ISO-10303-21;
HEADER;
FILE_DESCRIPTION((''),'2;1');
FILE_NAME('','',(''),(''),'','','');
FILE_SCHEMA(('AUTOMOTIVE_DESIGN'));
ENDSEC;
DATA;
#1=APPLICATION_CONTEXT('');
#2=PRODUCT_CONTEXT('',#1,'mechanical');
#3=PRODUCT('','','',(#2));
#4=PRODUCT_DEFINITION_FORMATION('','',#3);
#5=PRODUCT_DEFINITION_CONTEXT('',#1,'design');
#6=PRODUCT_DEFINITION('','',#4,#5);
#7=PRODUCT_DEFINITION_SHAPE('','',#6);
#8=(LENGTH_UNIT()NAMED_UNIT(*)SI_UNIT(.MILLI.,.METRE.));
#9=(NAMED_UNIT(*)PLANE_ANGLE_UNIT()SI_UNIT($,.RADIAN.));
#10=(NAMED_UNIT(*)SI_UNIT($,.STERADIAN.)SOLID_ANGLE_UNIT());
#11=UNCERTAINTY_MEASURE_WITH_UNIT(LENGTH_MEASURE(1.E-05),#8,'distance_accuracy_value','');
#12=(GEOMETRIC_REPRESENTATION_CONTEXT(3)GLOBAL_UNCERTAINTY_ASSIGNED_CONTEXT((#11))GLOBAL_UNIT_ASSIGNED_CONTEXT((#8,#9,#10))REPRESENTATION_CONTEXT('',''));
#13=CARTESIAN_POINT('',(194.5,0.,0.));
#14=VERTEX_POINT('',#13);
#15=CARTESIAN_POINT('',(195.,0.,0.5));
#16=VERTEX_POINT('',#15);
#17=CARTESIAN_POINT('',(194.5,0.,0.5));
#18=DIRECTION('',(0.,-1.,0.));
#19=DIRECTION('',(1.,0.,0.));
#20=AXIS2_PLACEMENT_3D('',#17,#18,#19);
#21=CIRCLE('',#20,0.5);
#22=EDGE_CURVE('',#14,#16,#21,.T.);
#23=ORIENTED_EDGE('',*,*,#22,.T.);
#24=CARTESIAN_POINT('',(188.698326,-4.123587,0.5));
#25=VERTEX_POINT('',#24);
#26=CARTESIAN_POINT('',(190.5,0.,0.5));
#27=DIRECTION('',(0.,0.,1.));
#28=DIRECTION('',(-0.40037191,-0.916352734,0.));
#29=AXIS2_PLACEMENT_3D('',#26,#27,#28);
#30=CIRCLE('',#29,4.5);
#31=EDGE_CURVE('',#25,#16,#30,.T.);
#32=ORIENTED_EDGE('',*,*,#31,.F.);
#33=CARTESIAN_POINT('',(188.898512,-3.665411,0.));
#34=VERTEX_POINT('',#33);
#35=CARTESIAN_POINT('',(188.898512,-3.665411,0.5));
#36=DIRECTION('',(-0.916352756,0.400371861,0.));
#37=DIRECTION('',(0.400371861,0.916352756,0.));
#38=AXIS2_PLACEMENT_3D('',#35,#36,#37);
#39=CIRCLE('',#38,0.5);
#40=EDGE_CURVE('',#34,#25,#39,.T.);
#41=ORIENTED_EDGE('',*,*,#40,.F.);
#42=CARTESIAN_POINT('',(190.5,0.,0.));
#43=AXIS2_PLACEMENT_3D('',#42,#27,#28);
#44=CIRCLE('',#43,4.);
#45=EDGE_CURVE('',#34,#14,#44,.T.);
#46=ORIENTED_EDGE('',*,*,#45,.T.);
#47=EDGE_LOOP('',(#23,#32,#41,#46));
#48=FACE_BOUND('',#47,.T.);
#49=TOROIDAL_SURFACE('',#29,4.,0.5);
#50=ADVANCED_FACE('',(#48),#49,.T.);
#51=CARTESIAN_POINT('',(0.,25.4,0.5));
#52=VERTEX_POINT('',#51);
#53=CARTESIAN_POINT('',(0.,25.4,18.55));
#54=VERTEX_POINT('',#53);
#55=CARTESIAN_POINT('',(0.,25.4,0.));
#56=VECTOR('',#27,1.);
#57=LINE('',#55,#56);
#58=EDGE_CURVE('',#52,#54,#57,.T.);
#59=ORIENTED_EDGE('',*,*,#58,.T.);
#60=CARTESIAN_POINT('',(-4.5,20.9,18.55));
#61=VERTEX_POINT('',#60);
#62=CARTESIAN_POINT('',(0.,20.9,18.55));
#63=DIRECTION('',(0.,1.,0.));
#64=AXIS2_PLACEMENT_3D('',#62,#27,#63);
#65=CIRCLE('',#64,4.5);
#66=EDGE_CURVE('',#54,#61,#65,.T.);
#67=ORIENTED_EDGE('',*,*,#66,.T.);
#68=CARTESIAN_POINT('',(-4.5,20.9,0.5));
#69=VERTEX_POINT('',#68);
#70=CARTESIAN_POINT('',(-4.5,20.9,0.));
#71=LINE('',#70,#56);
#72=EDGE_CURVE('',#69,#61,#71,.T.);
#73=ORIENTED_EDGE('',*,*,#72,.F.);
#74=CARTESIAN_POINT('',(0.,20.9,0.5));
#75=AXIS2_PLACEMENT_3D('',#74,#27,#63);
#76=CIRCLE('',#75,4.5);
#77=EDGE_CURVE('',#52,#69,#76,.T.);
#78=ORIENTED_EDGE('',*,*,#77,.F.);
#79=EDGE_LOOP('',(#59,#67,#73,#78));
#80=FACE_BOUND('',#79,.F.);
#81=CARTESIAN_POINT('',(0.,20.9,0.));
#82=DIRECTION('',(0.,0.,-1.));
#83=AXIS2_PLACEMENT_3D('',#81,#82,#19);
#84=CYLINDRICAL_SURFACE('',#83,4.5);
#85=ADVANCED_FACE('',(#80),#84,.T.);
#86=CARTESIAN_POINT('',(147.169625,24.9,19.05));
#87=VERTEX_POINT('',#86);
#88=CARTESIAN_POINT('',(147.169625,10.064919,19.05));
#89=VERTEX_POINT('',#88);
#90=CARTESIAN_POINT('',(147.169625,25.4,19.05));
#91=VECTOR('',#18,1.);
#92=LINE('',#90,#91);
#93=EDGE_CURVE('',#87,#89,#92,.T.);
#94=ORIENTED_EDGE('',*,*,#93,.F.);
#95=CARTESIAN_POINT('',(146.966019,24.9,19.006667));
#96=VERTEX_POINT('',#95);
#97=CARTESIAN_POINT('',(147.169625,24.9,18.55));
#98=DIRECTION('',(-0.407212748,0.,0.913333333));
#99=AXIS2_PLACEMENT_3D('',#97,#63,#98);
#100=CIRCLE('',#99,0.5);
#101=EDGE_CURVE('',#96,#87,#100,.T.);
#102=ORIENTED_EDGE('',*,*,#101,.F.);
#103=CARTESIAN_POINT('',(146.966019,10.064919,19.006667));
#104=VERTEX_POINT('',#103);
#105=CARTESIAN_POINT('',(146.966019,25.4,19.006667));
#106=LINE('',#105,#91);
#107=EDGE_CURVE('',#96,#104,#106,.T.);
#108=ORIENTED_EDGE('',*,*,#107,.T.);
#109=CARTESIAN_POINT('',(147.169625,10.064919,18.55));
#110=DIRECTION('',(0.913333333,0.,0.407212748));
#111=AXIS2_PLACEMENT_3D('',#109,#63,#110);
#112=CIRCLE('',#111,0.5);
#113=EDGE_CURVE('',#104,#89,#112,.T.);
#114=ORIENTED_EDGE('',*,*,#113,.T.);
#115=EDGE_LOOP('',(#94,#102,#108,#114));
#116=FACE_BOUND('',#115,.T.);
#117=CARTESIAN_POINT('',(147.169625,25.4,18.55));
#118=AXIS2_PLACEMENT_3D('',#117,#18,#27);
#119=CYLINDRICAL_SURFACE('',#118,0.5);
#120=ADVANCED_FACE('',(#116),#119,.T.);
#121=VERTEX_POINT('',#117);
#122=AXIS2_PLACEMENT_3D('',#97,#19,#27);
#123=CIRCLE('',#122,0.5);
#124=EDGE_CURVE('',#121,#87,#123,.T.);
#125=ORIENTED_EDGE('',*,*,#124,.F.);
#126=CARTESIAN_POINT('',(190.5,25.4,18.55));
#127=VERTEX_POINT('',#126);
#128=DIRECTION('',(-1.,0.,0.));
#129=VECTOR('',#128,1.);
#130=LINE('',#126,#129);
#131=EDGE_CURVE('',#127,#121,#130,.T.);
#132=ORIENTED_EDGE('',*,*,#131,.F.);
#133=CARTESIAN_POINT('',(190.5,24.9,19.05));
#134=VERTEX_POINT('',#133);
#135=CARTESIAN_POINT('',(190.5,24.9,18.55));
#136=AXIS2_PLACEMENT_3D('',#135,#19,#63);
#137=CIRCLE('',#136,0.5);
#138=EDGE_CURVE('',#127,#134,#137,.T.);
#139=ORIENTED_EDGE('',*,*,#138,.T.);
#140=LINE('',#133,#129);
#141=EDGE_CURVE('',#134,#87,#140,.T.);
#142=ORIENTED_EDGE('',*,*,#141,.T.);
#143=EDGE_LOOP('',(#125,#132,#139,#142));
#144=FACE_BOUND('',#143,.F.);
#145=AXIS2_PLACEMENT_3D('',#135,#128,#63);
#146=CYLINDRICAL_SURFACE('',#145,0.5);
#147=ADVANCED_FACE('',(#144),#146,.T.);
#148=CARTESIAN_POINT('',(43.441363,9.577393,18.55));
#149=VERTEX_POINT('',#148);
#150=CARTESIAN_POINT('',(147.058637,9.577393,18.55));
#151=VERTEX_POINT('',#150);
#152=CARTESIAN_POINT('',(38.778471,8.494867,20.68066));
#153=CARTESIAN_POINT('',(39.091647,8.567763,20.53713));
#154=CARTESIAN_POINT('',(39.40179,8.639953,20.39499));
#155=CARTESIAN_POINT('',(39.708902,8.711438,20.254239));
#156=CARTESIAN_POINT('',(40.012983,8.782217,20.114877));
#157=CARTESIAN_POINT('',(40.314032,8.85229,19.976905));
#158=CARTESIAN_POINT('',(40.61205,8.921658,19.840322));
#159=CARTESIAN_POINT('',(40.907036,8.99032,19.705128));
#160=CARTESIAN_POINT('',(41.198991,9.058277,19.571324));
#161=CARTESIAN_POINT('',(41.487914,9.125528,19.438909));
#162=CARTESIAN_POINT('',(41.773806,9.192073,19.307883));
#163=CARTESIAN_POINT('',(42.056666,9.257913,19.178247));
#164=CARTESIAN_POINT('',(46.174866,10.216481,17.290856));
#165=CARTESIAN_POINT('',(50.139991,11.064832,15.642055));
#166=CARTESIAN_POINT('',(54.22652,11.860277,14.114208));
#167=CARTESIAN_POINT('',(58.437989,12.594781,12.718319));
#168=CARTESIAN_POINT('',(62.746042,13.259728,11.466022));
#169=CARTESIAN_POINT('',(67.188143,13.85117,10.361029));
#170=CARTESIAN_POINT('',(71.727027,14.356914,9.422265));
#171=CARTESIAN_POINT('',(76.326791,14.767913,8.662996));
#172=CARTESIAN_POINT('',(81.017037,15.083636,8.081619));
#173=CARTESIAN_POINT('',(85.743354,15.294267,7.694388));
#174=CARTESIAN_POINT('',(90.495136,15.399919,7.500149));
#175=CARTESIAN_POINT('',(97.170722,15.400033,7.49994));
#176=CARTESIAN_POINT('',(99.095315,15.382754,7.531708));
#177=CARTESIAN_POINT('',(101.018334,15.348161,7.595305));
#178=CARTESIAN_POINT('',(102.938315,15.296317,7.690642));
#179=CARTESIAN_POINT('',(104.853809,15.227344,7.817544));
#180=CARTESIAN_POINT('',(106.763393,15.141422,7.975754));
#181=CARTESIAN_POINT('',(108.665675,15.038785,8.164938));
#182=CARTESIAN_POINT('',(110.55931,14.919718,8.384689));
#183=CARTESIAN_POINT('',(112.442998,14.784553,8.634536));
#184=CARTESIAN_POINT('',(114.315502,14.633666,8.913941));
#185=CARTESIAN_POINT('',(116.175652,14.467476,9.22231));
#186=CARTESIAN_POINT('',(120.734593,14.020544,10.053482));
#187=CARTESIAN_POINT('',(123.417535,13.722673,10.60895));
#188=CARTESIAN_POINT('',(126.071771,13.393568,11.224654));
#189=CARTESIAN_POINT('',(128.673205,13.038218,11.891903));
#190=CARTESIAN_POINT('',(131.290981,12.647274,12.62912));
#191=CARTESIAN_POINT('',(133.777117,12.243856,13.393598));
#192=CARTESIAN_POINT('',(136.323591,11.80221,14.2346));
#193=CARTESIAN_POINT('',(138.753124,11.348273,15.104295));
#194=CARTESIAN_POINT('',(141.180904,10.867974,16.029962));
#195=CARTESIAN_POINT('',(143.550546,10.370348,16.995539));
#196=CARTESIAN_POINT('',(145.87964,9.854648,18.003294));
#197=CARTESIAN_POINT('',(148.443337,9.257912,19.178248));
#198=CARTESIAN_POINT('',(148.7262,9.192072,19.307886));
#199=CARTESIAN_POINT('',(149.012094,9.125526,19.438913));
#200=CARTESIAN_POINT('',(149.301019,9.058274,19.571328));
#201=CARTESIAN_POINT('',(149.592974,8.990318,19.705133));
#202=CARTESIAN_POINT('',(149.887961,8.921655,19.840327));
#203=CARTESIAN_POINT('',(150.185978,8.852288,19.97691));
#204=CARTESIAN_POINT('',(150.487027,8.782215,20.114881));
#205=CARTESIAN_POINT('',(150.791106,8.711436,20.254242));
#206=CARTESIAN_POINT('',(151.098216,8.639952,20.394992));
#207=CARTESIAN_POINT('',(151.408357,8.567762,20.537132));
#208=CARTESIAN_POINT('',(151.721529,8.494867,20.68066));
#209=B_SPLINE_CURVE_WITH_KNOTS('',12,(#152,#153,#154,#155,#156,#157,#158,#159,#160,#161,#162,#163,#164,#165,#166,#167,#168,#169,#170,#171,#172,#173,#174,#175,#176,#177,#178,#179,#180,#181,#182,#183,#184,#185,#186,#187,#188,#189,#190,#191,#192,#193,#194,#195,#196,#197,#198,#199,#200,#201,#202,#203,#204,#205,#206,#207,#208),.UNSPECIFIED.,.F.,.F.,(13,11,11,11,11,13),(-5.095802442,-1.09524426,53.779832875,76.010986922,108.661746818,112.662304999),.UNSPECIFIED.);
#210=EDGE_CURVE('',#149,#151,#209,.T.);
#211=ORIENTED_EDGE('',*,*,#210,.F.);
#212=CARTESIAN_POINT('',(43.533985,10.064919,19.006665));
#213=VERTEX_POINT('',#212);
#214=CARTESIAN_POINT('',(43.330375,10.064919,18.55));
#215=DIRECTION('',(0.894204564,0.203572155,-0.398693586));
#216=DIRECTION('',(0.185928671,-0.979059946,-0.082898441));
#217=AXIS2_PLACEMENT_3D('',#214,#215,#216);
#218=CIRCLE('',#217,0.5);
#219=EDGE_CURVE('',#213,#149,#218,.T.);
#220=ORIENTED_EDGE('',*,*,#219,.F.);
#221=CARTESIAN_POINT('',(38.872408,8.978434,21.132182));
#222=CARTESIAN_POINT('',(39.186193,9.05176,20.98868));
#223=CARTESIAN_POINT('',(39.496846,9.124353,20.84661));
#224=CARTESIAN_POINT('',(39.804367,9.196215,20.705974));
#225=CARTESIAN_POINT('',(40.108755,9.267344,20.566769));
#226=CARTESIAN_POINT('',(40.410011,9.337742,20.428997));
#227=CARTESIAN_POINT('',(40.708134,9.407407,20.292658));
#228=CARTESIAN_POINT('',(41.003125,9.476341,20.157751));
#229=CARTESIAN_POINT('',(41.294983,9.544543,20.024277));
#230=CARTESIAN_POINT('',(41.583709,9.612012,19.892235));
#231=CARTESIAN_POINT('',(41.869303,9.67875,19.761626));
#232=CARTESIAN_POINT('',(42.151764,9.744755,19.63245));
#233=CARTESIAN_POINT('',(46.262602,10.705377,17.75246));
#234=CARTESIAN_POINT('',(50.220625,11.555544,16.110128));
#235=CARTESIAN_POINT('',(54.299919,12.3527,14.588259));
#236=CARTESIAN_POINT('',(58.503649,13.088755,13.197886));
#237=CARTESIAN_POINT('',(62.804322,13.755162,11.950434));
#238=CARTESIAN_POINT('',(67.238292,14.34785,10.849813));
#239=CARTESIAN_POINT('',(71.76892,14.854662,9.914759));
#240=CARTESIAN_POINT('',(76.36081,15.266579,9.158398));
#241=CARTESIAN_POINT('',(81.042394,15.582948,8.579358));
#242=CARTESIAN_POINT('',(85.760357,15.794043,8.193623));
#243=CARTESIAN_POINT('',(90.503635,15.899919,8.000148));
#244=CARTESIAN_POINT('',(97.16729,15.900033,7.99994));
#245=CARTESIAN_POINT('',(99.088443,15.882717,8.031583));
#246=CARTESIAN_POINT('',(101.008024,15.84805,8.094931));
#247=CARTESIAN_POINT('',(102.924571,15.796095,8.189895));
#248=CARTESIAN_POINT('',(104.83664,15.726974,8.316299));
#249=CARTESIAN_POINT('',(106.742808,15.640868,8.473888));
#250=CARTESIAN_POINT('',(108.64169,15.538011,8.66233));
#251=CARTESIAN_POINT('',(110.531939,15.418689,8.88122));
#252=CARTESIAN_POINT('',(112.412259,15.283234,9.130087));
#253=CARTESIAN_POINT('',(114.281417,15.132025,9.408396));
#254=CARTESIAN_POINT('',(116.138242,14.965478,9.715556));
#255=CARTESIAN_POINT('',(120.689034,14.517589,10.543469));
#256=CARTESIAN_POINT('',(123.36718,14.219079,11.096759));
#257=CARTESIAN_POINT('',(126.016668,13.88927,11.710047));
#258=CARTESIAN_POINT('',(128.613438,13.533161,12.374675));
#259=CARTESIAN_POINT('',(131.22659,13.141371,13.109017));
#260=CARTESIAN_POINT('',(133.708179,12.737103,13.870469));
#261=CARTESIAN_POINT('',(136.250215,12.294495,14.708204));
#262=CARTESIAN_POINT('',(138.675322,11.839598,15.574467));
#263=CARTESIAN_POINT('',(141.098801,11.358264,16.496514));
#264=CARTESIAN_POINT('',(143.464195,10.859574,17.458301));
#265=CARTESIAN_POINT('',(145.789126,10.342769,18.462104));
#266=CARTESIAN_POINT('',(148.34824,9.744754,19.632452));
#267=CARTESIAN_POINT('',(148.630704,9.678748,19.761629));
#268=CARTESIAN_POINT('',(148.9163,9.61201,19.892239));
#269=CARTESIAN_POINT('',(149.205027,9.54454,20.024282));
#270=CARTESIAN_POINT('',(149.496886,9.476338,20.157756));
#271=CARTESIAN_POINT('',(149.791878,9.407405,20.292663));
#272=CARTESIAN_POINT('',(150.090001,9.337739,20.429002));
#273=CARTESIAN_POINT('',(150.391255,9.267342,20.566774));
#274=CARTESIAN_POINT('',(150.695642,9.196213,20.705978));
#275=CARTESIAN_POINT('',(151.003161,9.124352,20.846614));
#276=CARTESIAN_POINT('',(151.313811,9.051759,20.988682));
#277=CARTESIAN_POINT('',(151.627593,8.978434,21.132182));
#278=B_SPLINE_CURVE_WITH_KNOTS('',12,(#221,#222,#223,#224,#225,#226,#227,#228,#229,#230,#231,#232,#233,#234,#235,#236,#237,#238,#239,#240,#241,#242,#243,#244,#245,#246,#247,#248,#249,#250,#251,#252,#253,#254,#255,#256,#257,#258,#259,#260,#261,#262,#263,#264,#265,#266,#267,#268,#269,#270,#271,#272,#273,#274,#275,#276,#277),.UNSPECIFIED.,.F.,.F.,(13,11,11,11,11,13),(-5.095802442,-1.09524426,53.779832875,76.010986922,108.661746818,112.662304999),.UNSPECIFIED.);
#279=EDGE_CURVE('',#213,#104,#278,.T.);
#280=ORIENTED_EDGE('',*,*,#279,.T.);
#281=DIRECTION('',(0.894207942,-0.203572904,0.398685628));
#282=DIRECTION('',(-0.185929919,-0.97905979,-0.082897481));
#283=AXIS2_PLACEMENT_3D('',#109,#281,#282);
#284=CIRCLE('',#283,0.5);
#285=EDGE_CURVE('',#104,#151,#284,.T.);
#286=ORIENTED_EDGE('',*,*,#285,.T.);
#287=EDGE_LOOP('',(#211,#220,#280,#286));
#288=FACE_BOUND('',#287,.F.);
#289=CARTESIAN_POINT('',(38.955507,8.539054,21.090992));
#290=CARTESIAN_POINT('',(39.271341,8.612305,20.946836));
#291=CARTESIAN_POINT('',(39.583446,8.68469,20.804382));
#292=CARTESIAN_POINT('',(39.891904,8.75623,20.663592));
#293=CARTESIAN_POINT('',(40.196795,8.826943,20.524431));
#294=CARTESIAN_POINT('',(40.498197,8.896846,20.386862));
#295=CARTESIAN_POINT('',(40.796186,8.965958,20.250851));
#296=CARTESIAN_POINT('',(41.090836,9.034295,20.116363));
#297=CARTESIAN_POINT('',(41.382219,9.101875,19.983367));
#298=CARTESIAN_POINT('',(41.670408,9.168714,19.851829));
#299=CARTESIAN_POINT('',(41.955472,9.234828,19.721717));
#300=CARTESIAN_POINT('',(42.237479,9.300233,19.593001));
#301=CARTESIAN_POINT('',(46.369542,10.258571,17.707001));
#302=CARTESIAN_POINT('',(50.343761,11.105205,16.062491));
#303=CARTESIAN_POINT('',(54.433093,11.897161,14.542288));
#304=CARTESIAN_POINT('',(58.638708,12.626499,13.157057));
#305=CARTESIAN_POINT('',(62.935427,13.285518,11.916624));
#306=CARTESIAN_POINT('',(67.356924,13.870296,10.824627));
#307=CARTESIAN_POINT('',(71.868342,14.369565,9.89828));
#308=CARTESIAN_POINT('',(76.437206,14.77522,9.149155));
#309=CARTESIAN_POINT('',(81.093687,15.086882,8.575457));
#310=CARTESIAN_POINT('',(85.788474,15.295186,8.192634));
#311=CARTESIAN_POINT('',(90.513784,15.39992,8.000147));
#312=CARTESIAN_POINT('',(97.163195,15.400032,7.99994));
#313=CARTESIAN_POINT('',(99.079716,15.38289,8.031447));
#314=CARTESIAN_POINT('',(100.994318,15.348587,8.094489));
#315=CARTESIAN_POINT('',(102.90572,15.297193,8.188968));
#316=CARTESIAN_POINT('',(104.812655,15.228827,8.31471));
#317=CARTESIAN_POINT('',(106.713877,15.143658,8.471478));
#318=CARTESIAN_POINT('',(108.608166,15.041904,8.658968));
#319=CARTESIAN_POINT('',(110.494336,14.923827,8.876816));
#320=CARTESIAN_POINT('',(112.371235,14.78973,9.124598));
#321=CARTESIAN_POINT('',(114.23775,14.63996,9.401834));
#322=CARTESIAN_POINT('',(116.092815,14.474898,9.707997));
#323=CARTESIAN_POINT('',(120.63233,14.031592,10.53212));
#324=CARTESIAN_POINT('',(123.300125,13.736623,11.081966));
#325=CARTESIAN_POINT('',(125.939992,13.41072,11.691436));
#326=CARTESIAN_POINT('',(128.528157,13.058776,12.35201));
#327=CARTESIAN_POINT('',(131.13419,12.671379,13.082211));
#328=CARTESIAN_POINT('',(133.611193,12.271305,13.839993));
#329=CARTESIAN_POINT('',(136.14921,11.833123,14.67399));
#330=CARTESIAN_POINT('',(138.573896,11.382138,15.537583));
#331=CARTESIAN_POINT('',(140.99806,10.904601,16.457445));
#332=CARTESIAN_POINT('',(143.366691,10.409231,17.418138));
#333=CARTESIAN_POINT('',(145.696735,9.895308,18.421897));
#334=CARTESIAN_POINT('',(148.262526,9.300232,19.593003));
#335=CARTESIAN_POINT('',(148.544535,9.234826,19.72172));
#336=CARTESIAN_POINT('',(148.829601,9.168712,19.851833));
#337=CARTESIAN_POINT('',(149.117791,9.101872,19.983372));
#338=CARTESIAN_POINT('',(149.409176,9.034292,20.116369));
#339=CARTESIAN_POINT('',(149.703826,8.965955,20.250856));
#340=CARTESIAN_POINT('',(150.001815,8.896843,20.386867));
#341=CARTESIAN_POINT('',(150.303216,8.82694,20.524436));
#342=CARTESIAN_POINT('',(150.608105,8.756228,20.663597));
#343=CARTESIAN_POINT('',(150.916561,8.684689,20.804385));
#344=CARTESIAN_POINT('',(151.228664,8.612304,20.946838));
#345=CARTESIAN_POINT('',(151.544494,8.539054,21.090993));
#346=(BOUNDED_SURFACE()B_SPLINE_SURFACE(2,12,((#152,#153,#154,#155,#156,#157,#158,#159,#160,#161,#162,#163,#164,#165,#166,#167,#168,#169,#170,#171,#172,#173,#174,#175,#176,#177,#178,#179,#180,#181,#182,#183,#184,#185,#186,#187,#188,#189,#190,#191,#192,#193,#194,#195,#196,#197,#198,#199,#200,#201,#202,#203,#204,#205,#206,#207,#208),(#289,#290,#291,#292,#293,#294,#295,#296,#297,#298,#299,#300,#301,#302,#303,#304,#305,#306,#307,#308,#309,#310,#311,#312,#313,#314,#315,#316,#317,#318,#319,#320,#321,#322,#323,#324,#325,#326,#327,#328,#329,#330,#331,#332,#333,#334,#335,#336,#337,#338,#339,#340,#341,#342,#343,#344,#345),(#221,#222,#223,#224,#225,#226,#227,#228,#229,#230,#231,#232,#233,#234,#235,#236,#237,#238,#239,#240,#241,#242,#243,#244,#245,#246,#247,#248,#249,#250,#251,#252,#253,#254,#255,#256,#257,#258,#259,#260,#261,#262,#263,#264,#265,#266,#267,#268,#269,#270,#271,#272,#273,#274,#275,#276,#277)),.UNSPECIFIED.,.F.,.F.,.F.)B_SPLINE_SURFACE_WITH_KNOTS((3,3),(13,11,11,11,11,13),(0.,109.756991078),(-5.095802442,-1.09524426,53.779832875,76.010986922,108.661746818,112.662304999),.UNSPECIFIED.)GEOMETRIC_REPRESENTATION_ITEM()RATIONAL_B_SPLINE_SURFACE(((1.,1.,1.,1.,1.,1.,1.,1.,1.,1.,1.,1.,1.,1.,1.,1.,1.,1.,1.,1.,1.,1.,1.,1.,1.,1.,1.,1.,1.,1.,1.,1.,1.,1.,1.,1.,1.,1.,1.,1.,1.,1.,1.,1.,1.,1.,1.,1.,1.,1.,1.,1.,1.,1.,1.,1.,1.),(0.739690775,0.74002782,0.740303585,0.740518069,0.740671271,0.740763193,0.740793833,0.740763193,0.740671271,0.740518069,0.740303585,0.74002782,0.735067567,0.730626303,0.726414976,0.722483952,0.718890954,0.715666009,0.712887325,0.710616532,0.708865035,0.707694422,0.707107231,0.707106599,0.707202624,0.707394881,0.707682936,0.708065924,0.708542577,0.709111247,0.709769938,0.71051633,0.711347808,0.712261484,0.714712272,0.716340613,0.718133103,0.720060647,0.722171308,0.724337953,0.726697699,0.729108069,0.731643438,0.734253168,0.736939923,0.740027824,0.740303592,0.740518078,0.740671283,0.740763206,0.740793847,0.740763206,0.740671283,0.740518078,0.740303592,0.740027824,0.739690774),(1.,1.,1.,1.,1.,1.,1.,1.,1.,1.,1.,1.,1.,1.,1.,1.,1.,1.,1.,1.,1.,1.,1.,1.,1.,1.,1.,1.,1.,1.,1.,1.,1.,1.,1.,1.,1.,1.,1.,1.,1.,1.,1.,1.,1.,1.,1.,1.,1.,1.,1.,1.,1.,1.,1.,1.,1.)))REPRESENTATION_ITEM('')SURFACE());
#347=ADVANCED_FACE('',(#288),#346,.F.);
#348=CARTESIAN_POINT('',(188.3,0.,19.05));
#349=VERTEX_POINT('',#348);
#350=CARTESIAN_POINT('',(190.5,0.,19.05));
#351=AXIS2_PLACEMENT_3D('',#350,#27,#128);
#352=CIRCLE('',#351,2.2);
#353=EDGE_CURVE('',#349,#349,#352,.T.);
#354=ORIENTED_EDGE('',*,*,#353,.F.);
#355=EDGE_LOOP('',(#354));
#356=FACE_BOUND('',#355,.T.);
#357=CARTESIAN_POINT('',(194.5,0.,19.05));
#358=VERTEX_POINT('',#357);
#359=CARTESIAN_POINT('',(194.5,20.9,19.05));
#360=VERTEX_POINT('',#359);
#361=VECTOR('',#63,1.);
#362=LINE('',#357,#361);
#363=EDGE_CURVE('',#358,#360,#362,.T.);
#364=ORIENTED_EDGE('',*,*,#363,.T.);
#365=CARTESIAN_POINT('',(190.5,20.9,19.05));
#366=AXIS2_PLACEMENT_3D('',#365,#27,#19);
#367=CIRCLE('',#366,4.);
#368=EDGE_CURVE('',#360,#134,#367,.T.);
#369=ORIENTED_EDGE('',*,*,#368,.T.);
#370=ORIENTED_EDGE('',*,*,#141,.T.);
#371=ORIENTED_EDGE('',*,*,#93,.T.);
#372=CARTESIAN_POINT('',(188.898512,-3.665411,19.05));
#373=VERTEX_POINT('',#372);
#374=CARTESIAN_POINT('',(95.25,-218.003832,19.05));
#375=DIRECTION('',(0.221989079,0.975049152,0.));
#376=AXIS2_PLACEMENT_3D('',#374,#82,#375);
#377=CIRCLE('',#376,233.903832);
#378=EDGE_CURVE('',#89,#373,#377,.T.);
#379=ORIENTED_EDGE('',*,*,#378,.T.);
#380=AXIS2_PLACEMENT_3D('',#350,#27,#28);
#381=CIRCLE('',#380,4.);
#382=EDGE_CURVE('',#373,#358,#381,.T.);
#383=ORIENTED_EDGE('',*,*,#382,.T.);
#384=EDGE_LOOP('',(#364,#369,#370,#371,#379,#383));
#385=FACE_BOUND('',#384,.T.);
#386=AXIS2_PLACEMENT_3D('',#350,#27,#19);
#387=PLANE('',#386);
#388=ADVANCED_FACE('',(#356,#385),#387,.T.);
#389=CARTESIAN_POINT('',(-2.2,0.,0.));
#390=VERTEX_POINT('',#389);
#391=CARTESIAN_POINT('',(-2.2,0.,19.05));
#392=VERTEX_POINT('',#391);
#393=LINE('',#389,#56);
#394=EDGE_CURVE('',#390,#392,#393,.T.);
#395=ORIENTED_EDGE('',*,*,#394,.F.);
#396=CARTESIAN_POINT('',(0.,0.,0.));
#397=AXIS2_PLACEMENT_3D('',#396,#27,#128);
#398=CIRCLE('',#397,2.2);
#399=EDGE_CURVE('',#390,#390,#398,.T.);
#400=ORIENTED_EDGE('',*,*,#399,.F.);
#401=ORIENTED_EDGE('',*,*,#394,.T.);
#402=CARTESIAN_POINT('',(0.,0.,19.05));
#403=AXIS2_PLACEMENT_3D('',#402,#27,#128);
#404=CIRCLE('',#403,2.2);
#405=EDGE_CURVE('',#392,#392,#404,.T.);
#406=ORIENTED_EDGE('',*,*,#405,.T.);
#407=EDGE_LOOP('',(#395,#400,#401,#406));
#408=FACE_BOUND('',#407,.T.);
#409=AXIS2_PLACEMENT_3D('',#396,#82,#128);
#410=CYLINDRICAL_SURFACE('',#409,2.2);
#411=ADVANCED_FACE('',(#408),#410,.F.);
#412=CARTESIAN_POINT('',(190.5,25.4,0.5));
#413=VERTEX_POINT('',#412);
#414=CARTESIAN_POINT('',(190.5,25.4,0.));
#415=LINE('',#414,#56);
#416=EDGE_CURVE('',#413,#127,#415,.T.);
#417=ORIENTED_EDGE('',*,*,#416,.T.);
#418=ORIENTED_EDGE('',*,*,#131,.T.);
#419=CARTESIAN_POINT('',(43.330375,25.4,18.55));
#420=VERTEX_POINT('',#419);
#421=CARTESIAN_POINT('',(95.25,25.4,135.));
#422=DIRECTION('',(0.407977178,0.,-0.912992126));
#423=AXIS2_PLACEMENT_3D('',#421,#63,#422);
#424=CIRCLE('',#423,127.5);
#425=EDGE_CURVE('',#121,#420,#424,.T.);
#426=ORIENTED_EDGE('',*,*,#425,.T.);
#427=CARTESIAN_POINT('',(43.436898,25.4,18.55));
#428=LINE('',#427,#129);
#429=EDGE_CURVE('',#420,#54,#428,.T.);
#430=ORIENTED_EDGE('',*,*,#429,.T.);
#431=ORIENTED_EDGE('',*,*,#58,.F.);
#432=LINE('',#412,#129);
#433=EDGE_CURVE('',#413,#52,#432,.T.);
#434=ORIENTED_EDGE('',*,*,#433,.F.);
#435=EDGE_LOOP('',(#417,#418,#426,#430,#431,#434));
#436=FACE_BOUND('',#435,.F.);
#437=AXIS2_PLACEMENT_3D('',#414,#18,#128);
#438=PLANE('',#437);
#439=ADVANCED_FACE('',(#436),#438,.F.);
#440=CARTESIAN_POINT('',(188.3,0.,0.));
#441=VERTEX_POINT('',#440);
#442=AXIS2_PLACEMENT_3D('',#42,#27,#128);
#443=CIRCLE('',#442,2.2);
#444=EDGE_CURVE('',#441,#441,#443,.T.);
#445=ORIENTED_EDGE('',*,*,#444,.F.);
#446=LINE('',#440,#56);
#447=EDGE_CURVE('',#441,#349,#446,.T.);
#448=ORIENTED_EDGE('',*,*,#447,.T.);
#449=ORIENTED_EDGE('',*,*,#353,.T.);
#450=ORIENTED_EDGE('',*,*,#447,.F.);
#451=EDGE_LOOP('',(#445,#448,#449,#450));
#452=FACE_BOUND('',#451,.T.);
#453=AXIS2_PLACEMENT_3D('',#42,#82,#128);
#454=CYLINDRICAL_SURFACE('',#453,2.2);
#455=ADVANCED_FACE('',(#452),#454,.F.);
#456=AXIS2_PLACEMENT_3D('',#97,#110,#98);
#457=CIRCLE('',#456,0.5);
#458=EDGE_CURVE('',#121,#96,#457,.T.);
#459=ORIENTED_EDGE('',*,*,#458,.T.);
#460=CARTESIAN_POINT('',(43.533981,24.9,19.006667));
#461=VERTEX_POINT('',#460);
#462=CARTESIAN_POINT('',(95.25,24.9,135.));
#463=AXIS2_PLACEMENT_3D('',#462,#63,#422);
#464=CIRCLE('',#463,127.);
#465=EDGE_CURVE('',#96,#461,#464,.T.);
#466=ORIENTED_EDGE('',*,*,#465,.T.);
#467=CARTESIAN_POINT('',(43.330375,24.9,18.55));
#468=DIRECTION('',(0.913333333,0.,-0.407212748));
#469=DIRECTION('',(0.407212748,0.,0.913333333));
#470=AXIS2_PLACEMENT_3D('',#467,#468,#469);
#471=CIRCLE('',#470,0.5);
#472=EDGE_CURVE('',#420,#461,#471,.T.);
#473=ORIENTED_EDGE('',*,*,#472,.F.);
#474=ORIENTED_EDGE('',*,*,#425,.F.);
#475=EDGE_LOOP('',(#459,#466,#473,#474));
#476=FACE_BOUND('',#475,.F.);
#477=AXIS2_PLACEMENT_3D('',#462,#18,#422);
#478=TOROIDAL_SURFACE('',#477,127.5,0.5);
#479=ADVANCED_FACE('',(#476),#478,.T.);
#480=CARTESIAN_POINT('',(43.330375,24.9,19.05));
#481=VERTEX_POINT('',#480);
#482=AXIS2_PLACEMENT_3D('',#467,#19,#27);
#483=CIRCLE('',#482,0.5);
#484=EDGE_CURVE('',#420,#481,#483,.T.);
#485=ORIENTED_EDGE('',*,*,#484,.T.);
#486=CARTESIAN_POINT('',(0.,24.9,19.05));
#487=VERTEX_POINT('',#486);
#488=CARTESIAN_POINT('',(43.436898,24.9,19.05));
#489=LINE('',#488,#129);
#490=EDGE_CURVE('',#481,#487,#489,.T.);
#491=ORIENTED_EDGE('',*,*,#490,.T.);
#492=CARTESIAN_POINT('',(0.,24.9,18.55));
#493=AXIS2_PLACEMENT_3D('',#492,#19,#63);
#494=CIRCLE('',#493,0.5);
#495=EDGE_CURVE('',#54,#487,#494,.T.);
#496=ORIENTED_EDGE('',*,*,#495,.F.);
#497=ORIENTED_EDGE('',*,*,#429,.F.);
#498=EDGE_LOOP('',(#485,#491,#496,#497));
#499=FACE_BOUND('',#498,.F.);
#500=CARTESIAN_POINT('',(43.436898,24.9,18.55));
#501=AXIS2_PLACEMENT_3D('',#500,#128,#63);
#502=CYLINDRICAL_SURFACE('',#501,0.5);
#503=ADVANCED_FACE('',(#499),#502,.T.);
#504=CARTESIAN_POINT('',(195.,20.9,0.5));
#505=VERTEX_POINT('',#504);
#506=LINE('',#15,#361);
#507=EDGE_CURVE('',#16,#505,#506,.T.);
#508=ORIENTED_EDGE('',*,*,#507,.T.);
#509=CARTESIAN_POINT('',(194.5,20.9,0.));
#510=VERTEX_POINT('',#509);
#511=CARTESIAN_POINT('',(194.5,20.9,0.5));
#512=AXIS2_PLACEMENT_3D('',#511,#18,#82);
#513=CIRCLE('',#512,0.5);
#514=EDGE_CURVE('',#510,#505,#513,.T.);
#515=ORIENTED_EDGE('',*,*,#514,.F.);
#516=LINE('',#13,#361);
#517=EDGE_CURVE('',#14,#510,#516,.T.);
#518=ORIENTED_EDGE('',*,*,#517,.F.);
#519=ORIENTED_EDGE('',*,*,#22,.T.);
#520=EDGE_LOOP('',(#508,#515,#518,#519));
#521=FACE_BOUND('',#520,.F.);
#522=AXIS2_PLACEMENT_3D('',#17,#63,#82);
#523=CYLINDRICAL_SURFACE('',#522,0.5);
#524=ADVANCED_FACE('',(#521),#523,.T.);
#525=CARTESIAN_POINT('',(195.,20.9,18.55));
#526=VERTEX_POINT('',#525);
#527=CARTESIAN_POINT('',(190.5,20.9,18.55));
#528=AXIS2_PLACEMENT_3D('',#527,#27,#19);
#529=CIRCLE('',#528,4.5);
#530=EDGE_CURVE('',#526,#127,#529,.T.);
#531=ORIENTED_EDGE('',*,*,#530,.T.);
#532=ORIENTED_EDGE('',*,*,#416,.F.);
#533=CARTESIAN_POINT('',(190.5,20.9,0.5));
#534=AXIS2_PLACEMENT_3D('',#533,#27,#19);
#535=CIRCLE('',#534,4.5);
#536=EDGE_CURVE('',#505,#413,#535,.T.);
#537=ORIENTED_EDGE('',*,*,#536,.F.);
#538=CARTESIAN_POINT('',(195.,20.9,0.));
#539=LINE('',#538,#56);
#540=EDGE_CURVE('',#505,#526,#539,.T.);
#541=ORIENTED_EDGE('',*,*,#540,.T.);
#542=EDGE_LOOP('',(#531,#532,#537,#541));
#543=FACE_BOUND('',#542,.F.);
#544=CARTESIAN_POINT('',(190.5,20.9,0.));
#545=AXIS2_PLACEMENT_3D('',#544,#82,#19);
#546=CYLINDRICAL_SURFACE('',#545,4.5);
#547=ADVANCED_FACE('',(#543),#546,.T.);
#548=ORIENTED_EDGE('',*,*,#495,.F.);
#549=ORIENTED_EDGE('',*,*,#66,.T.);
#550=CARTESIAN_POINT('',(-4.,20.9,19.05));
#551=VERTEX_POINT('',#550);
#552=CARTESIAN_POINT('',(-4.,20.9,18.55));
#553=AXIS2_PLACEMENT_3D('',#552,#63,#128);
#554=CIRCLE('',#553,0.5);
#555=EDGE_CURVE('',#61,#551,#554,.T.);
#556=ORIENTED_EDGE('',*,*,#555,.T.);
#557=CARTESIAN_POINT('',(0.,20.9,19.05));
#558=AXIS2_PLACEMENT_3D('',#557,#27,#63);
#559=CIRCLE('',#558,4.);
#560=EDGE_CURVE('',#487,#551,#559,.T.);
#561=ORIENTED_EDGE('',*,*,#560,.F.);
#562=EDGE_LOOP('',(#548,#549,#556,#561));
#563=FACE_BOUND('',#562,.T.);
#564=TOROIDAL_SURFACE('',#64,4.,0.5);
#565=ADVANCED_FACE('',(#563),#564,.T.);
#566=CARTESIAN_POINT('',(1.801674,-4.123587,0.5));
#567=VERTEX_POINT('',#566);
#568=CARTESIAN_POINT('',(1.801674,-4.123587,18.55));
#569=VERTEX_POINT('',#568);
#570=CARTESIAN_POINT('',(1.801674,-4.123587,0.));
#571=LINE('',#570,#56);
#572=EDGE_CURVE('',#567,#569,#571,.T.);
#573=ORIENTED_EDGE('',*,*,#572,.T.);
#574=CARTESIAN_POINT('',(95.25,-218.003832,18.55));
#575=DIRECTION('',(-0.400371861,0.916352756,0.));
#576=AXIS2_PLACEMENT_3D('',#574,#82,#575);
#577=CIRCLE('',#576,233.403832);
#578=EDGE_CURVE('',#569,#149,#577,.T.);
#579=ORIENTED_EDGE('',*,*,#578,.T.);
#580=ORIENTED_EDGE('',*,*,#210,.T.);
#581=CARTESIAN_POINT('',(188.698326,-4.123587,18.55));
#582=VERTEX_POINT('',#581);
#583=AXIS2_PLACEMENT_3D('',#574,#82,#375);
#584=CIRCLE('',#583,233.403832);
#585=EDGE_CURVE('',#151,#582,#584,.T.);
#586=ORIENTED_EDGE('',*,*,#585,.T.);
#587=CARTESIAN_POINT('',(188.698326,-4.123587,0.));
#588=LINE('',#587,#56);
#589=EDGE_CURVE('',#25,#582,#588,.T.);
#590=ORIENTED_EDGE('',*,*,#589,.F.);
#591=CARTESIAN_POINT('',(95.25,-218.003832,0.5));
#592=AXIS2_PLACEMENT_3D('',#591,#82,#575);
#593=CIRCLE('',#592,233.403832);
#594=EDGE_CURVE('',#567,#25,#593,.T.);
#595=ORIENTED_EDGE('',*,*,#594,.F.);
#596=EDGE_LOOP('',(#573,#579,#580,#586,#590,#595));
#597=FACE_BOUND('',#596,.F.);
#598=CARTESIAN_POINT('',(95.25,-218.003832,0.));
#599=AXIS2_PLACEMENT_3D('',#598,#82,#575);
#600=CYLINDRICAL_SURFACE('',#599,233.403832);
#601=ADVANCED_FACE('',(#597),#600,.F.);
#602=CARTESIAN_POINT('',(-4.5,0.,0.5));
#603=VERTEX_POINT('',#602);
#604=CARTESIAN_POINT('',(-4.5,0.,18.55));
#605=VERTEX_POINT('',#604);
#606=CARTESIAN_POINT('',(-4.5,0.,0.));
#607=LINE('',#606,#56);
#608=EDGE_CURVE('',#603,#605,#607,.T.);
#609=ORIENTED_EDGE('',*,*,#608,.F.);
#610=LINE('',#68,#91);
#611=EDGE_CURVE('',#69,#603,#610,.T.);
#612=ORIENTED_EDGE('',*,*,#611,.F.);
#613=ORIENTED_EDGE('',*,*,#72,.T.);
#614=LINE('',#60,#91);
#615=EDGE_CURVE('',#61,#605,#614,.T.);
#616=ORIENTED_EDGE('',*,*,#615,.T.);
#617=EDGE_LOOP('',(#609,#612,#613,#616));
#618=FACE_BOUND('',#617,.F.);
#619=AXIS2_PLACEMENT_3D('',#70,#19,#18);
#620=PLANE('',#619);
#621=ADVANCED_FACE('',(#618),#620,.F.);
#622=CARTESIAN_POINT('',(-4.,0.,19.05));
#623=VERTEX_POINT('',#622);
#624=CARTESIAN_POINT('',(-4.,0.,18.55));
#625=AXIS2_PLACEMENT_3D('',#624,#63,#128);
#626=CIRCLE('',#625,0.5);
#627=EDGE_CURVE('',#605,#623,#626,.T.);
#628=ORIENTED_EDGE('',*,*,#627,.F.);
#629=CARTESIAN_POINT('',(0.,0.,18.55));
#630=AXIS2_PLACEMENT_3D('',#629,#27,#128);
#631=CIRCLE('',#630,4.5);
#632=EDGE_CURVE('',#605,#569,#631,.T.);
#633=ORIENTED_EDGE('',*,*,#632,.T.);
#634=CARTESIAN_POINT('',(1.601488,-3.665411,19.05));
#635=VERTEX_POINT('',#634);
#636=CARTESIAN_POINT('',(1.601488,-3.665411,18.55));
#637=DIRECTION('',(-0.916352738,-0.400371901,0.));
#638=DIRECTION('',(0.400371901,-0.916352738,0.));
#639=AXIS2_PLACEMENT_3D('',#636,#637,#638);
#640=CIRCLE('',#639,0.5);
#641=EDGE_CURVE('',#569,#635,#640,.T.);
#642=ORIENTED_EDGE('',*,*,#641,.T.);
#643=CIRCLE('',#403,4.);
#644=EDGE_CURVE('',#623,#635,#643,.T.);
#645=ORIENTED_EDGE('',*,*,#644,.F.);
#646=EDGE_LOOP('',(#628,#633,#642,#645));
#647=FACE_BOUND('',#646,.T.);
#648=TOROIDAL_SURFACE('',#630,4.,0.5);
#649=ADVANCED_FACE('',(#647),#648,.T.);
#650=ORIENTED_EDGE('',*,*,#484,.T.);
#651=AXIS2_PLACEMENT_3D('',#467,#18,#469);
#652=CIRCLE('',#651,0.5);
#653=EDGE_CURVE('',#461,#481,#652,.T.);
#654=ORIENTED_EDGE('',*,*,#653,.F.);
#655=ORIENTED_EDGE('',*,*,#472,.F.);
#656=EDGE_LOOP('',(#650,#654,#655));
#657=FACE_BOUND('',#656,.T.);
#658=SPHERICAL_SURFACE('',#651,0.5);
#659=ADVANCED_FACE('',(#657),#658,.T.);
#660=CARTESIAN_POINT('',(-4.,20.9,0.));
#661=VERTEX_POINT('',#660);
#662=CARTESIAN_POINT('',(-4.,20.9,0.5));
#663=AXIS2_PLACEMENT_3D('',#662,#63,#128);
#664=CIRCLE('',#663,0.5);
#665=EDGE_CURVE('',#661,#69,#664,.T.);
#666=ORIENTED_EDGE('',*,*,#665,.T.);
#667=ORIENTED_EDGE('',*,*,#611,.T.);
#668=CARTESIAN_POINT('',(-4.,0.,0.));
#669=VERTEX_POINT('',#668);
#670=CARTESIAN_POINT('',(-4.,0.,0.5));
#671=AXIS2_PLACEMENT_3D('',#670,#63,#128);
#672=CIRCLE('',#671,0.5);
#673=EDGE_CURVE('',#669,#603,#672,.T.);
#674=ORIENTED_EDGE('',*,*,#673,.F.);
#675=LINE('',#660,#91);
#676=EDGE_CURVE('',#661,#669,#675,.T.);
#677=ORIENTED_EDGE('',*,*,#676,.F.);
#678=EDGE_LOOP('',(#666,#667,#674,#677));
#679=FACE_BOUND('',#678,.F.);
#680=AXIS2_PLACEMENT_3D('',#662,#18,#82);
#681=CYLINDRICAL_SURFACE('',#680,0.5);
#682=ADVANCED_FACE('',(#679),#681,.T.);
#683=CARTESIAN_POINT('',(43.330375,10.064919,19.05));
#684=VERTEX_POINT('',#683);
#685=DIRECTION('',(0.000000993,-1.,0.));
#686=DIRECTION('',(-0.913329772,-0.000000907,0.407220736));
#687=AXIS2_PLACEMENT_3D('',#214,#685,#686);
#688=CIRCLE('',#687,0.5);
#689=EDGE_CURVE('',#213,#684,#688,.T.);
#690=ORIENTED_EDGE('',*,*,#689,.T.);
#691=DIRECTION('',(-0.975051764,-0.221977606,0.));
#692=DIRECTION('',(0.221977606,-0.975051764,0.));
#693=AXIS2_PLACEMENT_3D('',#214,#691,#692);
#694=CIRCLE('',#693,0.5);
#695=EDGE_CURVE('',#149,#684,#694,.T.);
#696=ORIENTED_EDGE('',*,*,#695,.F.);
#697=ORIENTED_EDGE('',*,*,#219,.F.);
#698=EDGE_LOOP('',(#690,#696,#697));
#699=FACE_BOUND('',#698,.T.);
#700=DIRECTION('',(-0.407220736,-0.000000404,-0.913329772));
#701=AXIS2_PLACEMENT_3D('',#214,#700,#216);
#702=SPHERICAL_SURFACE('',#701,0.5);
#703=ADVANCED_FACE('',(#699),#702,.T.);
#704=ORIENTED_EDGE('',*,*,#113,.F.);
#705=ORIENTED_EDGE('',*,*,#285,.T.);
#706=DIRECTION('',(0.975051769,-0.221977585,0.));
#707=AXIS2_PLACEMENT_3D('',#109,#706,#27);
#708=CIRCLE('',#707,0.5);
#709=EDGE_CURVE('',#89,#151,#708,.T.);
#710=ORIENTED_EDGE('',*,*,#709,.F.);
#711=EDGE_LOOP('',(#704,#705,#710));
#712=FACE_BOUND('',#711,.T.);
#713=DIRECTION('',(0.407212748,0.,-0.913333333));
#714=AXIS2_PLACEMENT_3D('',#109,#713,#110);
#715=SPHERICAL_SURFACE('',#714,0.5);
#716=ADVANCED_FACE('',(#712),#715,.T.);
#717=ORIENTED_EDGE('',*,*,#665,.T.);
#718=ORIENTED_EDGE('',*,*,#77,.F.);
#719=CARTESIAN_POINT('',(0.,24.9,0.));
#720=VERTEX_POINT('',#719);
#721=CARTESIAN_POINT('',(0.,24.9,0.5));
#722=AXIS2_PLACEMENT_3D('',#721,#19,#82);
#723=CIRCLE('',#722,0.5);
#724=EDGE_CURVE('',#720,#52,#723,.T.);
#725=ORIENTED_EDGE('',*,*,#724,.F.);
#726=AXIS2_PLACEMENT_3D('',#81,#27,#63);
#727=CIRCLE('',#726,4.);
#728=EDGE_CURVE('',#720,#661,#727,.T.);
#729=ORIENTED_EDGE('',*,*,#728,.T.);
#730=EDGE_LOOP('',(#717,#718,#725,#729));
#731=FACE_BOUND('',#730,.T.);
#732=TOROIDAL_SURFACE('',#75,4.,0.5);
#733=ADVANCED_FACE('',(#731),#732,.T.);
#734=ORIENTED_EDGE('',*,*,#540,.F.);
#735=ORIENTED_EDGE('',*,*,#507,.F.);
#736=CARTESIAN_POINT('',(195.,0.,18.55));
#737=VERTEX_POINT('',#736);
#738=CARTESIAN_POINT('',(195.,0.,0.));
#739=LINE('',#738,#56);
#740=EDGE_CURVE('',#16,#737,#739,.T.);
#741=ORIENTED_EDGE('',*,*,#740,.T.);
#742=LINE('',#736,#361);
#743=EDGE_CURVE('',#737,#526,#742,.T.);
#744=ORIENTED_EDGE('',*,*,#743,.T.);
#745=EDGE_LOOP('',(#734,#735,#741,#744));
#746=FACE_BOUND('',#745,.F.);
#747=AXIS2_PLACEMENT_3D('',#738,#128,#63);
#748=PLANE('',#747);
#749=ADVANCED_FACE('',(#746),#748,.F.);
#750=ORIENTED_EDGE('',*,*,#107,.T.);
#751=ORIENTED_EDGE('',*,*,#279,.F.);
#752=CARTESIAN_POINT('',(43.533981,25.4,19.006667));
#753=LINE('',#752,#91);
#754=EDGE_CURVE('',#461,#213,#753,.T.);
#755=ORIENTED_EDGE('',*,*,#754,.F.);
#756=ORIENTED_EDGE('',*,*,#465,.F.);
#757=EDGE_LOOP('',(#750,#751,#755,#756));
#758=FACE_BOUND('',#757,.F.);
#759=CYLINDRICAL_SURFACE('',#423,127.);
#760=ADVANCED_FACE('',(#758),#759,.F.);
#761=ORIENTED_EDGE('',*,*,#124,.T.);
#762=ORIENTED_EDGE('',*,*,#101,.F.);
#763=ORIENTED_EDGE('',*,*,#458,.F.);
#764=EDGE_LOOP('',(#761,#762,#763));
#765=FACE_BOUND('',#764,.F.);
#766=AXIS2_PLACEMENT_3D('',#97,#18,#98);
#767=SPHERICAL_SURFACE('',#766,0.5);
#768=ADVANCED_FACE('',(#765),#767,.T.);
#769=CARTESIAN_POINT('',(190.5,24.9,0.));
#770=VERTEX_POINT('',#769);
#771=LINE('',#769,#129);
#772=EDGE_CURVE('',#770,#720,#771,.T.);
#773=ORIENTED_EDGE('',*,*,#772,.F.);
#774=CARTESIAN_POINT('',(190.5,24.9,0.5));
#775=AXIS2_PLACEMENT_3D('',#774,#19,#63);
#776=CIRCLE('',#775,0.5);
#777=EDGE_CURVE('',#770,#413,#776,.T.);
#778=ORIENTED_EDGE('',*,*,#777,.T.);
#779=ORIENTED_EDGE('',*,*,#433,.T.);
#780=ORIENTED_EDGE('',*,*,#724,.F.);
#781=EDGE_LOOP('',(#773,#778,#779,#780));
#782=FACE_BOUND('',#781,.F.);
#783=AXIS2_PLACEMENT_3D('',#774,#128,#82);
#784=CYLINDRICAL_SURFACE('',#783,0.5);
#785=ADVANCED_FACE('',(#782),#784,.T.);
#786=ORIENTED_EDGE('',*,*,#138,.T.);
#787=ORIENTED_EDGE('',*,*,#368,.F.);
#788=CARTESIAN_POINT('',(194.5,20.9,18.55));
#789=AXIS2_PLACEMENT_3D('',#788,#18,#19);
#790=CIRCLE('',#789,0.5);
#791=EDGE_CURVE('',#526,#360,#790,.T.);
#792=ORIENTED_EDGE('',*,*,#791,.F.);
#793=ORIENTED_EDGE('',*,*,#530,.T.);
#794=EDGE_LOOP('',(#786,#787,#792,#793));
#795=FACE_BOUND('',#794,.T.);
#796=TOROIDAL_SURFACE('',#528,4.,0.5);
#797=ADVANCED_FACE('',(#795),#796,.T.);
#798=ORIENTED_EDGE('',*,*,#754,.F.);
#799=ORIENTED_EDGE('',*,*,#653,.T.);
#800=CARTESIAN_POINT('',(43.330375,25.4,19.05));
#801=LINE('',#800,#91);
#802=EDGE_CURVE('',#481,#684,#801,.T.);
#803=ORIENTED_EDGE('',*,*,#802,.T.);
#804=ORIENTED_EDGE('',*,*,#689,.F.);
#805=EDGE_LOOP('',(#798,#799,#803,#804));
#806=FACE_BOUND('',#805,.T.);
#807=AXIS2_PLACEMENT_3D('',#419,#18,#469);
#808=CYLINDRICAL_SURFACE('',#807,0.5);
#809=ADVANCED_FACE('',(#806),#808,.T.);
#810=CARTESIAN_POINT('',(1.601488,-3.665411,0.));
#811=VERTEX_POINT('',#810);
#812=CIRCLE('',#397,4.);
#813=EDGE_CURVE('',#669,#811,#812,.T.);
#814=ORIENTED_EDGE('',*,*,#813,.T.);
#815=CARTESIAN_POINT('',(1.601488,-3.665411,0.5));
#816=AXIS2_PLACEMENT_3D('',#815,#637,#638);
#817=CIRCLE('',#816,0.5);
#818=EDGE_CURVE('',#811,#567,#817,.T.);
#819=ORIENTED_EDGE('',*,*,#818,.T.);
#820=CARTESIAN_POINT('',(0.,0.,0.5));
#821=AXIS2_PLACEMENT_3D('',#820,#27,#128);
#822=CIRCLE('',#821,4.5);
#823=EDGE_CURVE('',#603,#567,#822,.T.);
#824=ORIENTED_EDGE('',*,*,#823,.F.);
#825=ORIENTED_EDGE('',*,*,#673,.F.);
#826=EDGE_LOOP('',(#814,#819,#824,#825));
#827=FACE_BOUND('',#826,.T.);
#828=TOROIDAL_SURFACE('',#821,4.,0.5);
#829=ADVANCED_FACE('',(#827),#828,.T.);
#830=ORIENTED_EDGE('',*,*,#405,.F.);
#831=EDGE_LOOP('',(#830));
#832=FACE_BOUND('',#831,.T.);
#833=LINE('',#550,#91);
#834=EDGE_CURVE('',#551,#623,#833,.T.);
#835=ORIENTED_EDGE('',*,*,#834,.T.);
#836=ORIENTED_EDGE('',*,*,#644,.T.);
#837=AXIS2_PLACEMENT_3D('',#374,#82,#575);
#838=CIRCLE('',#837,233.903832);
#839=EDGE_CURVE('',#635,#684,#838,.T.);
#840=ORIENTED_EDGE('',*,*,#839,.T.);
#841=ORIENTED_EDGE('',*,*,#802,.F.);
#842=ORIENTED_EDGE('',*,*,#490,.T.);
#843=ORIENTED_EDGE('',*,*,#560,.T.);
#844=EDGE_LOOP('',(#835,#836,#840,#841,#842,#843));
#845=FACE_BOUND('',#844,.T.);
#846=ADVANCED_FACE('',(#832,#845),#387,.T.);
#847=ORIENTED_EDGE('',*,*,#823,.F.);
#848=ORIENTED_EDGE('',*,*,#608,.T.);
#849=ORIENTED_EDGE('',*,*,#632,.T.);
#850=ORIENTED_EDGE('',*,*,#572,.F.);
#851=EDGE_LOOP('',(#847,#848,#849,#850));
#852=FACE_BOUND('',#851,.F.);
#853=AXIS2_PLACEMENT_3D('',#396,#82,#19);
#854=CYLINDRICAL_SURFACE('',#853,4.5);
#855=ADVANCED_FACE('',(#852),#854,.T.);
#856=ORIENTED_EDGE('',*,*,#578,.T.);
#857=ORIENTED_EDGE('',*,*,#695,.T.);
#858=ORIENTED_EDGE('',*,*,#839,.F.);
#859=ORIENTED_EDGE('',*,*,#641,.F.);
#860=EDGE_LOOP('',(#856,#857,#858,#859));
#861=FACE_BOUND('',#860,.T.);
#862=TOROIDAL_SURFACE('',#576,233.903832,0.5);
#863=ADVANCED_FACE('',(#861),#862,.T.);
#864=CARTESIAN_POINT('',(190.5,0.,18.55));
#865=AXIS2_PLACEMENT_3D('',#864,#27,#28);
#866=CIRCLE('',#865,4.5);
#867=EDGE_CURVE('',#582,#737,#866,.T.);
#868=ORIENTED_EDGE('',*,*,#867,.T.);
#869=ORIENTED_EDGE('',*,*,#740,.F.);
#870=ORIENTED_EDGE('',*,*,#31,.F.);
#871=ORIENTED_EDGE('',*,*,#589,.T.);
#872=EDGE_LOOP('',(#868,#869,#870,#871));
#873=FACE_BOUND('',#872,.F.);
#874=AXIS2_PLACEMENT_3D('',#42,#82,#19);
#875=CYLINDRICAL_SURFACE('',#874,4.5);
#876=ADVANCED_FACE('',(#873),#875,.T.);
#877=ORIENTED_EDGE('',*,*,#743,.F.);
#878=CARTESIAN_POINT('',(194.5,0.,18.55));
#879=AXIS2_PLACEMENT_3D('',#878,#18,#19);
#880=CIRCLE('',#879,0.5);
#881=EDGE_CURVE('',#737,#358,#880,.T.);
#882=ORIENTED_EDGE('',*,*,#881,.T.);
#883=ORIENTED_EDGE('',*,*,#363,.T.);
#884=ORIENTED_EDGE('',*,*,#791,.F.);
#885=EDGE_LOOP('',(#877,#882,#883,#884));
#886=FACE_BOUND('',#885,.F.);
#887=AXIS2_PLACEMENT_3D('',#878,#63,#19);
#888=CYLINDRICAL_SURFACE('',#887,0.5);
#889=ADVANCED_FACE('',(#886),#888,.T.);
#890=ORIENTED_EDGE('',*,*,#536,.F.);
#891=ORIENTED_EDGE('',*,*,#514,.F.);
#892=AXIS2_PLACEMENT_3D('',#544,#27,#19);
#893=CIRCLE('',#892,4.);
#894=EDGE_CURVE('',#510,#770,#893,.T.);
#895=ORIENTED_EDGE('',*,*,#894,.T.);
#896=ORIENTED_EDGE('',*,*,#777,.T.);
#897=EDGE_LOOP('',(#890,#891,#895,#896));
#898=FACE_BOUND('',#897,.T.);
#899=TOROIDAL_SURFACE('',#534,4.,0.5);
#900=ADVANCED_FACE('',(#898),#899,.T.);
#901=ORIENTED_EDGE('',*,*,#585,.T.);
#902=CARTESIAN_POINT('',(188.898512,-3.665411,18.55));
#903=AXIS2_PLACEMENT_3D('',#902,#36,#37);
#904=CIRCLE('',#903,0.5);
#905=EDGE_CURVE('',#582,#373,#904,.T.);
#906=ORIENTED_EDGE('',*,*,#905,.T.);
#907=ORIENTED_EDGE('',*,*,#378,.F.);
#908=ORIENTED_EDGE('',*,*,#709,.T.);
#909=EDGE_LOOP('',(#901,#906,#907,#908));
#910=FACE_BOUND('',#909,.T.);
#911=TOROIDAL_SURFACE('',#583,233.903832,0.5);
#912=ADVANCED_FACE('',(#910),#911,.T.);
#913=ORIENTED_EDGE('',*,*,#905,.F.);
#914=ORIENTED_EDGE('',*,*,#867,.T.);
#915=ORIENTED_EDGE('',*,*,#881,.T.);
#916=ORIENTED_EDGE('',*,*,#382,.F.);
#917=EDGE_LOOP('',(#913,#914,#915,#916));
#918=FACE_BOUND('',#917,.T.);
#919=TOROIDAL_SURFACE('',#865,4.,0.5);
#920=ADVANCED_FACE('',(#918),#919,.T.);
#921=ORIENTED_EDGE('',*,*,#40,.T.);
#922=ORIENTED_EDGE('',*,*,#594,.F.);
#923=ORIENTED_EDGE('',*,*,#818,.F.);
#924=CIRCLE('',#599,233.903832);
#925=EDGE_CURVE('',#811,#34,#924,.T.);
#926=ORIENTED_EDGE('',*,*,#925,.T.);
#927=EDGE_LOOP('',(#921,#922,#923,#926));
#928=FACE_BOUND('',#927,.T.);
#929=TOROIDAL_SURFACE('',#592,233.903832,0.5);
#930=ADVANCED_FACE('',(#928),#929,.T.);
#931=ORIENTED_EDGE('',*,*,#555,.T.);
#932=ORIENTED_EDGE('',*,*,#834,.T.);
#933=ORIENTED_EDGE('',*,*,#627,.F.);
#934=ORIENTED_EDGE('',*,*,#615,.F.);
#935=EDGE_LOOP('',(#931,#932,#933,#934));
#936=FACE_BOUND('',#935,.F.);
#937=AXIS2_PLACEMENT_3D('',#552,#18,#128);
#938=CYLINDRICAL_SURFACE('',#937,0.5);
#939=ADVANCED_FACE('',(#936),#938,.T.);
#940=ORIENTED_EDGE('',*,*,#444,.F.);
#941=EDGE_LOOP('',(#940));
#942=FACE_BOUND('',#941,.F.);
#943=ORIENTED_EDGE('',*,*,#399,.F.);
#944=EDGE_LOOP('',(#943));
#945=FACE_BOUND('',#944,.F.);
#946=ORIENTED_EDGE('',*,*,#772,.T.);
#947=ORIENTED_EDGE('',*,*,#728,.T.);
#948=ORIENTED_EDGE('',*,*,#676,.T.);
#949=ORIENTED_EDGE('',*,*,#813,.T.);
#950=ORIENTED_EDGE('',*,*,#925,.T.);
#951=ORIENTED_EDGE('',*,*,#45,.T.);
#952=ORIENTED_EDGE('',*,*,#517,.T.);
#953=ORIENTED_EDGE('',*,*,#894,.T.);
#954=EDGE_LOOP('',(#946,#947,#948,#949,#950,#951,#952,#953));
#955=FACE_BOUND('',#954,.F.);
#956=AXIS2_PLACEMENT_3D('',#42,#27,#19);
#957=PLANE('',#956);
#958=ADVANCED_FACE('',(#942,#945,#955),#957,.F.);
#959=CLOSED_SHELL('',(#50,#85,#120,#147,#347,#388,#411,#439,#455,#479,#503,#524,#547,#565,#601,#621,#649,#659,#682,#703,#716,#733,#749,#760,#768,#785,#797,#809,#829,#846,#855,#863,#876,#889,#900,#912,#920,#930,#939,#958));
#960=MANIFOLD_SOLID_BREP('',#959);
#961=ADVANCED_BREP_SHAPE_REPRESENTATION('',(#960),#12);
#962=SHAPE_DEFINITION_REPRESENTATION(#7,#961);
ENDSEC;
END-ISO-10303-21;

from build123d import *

# Parameters (mm, degrees)
SKETCH1_R               = 4.5
SKETCH1_R_2             = 2.2
BOSS_EXTRUDE1_DEPTH     = 19.05
CUT_EXTRUDE1_REACH      = 200.197
CUT_EXTRUDE1_END_RADIUS = 233.403831658
FILLET1_R               = 0.5


with BuildPart() as part:
    # Sketch1 → Boss-Extrude1 (new body)
    # profile 1 of 5: a face of its own
    with BuildSketch(Plane.XY):
        with BuildLine():
            Line((190.5, 25.4), (0, 25.4))
            ThreePointArc((0, 25.4), (3.181980515, 24.081980515), (4.5, 20.9))
            ThreePointArc((4.5, 20.9), (0, 16.4), (-4.5, 20.9))
            Line((-4.5, 20.9), (-4.5, 0))
            ThreePointArc((-4.5, 0), (0, 4.5), (4.5, 0))
            ThreePointArc((4.5, 0), (3.765470156, -2.463987521), (1.801673554, -4.123587322))
            ThreePointArc((1.801673554, -4.123587322), (95.249999978, 15.4), (188.698326405, -4.123587304))
            ThreePointArc((188.698326405, -4.123587304), (188.036012498, 3.765470168), (195, 0))
            Line((195, 0), (195, 20.9))
            ThreePointArc((195, 20.9), (187.318019485, 17.718019485), (190.5, 25.4))
        make_face()
    # profile 2 of 5: a face of its own
    with BuildSketch(Plane.XY):
        Circle(SKETCH1_R)
        with Locations(Location((0, 0, 0), (0, 0, 180))):
            Circle(SKETCH1_R_2, mode=Mode.SUBTRACT)
    # profile 3 of 5: a face of its own
    with BuildSketch(Plane.XY):
        with Locations((0, 20.9)):
            Circle(SKETCH1_R)
    # profile 4 of 5: a face of its own
    with BuildSketch(Plane.XY):
        with Locations((190.5, 20.9)):
            Circle(SKETCH1_R)
    # profile 5 of 5: a face of its own
    with BuildSketch(Plane.XY):
        with Locations((190.5, 0)):
            Circle(SKETCH1_R)
        with Locations(Location((190.5, 0, 0), (0, 0, 180))):
            Circle(SKETCH1_R_2, mode=Mode.SUBTRACT)
    extrude(amount=BOSS_EXTRUDE1_DEPTH)

    # Cut-Extrude1: up to this cylinder (the profile starts outside it)
    cut_extrude1_end = Plane(origin=(95.25, -218.003831658, 75.735711), z_dir=(0, 0, -1)) * Cylinder(CUT_EXTRUDE1_END_RADIUS, 990.446901317, mode=Mode.PRIVATE)
    # Sketch2 → Cut-Extrude1 (cut, up to the surface)
    with BuildSketch(Plane(origin=(0, 25.4, 0), x_dir=(1, 0, 0), z_dir=(0, 1, 0)), mode=Mode.PRIVATE) as cut_extrude1_sk1:
        with BuildLine():
            ThreePointArc((43.436898375, -19.05), (26.153197999, -241.558115379), (222.25, -135))
            ThreePointArc((222.25, -135), (201.808115379, -65.903197999), (147.063101625, -19.05))
            Line((147.063101625, -19.05), (43.436898375, -19.05))
        make_face()
    cut_extrude1_tool1 = extrude(cut_extrude1_sk1.sketch, amount=-CUT_EXTRUDE1_REACH, mode=Mode.PRIVATE) - cut_extrude1_end
    add(cut_extrude1_tool1.solids().sort_by_distance((95.25, 25.4, 136.85833))[0], mode=Mode.SUBTRACT)
    # Sketch2 → Cut-Extrude1 (cut, up to the surface)
    with BuildSketch(Plane(origin=(0, 25.4, 0), x_dir=(1, 0, 0), z_dir=(0, 1, 0)), mode=Mode.PRIVATE) as cut_extrude1_sk2:
        with BuildLine():
            Line((43.436898375, -19.05), (147.063101625, -19.05))
            ThreePointArc((147.063101625, -19.05), (95.25, -8), (43.436898375, -19.05))
        make_face()
    cut_extrude1_tool2 = extrude(cut_extrude1_sk2.sketch, amount=-CUT_EXTRUDE1_REACH, mode=Mode.PRIVATE) - cut_extrude1_end
    add(cut_extrude1_tool2.solids().sort_by_distance((95.25, 25.4, 14.613092))[0], mode=Mode.SUBTRACT)

    # Fillet1
    fillet1_edges = [part.edges().sort_by_distance(p)[0] for p in [
        (192.963987502, -3.765470168, 19.05),
        (-2.463987521, -3.765470156, 0),
        (-4.5, 10.45, 0),
        (-3.181980515, 24.081980515, 0),
        (95.25, 25.4, 0),
        (193.681980515, 24.081980515, 0),
        (195, 10.45, 0),
        (192.963987502, -3.765470168, 0),
        (95.249999978, 15.4, 0),
        (195, 10.45, 19.05),
        (193.681980515, 24.081980515, 19.05),
        (21.718449188, 25.4, 19.05),
        (-3.181980515, 24.081980515, 19.05),
        (22.29698174, 3.70590146, 19.05),
        (168.781550812, 25.4, 19.05),
        (-4.5, 10.45, 19.05),
        (147.063101625, 17.488188236, 19.05),
        (95.25, 15.4, 8),
        (43.436898375, 17.488188236, 19.05),
        (95.25, 25.4, 8),
        (-2.463987521, -3.765470156, 19.05),
        (168.203018239, 3.705901467, 19.05),
    ]]
    fillet(fillet1_edges, radius=FILLET1_R)


solid = part.part
